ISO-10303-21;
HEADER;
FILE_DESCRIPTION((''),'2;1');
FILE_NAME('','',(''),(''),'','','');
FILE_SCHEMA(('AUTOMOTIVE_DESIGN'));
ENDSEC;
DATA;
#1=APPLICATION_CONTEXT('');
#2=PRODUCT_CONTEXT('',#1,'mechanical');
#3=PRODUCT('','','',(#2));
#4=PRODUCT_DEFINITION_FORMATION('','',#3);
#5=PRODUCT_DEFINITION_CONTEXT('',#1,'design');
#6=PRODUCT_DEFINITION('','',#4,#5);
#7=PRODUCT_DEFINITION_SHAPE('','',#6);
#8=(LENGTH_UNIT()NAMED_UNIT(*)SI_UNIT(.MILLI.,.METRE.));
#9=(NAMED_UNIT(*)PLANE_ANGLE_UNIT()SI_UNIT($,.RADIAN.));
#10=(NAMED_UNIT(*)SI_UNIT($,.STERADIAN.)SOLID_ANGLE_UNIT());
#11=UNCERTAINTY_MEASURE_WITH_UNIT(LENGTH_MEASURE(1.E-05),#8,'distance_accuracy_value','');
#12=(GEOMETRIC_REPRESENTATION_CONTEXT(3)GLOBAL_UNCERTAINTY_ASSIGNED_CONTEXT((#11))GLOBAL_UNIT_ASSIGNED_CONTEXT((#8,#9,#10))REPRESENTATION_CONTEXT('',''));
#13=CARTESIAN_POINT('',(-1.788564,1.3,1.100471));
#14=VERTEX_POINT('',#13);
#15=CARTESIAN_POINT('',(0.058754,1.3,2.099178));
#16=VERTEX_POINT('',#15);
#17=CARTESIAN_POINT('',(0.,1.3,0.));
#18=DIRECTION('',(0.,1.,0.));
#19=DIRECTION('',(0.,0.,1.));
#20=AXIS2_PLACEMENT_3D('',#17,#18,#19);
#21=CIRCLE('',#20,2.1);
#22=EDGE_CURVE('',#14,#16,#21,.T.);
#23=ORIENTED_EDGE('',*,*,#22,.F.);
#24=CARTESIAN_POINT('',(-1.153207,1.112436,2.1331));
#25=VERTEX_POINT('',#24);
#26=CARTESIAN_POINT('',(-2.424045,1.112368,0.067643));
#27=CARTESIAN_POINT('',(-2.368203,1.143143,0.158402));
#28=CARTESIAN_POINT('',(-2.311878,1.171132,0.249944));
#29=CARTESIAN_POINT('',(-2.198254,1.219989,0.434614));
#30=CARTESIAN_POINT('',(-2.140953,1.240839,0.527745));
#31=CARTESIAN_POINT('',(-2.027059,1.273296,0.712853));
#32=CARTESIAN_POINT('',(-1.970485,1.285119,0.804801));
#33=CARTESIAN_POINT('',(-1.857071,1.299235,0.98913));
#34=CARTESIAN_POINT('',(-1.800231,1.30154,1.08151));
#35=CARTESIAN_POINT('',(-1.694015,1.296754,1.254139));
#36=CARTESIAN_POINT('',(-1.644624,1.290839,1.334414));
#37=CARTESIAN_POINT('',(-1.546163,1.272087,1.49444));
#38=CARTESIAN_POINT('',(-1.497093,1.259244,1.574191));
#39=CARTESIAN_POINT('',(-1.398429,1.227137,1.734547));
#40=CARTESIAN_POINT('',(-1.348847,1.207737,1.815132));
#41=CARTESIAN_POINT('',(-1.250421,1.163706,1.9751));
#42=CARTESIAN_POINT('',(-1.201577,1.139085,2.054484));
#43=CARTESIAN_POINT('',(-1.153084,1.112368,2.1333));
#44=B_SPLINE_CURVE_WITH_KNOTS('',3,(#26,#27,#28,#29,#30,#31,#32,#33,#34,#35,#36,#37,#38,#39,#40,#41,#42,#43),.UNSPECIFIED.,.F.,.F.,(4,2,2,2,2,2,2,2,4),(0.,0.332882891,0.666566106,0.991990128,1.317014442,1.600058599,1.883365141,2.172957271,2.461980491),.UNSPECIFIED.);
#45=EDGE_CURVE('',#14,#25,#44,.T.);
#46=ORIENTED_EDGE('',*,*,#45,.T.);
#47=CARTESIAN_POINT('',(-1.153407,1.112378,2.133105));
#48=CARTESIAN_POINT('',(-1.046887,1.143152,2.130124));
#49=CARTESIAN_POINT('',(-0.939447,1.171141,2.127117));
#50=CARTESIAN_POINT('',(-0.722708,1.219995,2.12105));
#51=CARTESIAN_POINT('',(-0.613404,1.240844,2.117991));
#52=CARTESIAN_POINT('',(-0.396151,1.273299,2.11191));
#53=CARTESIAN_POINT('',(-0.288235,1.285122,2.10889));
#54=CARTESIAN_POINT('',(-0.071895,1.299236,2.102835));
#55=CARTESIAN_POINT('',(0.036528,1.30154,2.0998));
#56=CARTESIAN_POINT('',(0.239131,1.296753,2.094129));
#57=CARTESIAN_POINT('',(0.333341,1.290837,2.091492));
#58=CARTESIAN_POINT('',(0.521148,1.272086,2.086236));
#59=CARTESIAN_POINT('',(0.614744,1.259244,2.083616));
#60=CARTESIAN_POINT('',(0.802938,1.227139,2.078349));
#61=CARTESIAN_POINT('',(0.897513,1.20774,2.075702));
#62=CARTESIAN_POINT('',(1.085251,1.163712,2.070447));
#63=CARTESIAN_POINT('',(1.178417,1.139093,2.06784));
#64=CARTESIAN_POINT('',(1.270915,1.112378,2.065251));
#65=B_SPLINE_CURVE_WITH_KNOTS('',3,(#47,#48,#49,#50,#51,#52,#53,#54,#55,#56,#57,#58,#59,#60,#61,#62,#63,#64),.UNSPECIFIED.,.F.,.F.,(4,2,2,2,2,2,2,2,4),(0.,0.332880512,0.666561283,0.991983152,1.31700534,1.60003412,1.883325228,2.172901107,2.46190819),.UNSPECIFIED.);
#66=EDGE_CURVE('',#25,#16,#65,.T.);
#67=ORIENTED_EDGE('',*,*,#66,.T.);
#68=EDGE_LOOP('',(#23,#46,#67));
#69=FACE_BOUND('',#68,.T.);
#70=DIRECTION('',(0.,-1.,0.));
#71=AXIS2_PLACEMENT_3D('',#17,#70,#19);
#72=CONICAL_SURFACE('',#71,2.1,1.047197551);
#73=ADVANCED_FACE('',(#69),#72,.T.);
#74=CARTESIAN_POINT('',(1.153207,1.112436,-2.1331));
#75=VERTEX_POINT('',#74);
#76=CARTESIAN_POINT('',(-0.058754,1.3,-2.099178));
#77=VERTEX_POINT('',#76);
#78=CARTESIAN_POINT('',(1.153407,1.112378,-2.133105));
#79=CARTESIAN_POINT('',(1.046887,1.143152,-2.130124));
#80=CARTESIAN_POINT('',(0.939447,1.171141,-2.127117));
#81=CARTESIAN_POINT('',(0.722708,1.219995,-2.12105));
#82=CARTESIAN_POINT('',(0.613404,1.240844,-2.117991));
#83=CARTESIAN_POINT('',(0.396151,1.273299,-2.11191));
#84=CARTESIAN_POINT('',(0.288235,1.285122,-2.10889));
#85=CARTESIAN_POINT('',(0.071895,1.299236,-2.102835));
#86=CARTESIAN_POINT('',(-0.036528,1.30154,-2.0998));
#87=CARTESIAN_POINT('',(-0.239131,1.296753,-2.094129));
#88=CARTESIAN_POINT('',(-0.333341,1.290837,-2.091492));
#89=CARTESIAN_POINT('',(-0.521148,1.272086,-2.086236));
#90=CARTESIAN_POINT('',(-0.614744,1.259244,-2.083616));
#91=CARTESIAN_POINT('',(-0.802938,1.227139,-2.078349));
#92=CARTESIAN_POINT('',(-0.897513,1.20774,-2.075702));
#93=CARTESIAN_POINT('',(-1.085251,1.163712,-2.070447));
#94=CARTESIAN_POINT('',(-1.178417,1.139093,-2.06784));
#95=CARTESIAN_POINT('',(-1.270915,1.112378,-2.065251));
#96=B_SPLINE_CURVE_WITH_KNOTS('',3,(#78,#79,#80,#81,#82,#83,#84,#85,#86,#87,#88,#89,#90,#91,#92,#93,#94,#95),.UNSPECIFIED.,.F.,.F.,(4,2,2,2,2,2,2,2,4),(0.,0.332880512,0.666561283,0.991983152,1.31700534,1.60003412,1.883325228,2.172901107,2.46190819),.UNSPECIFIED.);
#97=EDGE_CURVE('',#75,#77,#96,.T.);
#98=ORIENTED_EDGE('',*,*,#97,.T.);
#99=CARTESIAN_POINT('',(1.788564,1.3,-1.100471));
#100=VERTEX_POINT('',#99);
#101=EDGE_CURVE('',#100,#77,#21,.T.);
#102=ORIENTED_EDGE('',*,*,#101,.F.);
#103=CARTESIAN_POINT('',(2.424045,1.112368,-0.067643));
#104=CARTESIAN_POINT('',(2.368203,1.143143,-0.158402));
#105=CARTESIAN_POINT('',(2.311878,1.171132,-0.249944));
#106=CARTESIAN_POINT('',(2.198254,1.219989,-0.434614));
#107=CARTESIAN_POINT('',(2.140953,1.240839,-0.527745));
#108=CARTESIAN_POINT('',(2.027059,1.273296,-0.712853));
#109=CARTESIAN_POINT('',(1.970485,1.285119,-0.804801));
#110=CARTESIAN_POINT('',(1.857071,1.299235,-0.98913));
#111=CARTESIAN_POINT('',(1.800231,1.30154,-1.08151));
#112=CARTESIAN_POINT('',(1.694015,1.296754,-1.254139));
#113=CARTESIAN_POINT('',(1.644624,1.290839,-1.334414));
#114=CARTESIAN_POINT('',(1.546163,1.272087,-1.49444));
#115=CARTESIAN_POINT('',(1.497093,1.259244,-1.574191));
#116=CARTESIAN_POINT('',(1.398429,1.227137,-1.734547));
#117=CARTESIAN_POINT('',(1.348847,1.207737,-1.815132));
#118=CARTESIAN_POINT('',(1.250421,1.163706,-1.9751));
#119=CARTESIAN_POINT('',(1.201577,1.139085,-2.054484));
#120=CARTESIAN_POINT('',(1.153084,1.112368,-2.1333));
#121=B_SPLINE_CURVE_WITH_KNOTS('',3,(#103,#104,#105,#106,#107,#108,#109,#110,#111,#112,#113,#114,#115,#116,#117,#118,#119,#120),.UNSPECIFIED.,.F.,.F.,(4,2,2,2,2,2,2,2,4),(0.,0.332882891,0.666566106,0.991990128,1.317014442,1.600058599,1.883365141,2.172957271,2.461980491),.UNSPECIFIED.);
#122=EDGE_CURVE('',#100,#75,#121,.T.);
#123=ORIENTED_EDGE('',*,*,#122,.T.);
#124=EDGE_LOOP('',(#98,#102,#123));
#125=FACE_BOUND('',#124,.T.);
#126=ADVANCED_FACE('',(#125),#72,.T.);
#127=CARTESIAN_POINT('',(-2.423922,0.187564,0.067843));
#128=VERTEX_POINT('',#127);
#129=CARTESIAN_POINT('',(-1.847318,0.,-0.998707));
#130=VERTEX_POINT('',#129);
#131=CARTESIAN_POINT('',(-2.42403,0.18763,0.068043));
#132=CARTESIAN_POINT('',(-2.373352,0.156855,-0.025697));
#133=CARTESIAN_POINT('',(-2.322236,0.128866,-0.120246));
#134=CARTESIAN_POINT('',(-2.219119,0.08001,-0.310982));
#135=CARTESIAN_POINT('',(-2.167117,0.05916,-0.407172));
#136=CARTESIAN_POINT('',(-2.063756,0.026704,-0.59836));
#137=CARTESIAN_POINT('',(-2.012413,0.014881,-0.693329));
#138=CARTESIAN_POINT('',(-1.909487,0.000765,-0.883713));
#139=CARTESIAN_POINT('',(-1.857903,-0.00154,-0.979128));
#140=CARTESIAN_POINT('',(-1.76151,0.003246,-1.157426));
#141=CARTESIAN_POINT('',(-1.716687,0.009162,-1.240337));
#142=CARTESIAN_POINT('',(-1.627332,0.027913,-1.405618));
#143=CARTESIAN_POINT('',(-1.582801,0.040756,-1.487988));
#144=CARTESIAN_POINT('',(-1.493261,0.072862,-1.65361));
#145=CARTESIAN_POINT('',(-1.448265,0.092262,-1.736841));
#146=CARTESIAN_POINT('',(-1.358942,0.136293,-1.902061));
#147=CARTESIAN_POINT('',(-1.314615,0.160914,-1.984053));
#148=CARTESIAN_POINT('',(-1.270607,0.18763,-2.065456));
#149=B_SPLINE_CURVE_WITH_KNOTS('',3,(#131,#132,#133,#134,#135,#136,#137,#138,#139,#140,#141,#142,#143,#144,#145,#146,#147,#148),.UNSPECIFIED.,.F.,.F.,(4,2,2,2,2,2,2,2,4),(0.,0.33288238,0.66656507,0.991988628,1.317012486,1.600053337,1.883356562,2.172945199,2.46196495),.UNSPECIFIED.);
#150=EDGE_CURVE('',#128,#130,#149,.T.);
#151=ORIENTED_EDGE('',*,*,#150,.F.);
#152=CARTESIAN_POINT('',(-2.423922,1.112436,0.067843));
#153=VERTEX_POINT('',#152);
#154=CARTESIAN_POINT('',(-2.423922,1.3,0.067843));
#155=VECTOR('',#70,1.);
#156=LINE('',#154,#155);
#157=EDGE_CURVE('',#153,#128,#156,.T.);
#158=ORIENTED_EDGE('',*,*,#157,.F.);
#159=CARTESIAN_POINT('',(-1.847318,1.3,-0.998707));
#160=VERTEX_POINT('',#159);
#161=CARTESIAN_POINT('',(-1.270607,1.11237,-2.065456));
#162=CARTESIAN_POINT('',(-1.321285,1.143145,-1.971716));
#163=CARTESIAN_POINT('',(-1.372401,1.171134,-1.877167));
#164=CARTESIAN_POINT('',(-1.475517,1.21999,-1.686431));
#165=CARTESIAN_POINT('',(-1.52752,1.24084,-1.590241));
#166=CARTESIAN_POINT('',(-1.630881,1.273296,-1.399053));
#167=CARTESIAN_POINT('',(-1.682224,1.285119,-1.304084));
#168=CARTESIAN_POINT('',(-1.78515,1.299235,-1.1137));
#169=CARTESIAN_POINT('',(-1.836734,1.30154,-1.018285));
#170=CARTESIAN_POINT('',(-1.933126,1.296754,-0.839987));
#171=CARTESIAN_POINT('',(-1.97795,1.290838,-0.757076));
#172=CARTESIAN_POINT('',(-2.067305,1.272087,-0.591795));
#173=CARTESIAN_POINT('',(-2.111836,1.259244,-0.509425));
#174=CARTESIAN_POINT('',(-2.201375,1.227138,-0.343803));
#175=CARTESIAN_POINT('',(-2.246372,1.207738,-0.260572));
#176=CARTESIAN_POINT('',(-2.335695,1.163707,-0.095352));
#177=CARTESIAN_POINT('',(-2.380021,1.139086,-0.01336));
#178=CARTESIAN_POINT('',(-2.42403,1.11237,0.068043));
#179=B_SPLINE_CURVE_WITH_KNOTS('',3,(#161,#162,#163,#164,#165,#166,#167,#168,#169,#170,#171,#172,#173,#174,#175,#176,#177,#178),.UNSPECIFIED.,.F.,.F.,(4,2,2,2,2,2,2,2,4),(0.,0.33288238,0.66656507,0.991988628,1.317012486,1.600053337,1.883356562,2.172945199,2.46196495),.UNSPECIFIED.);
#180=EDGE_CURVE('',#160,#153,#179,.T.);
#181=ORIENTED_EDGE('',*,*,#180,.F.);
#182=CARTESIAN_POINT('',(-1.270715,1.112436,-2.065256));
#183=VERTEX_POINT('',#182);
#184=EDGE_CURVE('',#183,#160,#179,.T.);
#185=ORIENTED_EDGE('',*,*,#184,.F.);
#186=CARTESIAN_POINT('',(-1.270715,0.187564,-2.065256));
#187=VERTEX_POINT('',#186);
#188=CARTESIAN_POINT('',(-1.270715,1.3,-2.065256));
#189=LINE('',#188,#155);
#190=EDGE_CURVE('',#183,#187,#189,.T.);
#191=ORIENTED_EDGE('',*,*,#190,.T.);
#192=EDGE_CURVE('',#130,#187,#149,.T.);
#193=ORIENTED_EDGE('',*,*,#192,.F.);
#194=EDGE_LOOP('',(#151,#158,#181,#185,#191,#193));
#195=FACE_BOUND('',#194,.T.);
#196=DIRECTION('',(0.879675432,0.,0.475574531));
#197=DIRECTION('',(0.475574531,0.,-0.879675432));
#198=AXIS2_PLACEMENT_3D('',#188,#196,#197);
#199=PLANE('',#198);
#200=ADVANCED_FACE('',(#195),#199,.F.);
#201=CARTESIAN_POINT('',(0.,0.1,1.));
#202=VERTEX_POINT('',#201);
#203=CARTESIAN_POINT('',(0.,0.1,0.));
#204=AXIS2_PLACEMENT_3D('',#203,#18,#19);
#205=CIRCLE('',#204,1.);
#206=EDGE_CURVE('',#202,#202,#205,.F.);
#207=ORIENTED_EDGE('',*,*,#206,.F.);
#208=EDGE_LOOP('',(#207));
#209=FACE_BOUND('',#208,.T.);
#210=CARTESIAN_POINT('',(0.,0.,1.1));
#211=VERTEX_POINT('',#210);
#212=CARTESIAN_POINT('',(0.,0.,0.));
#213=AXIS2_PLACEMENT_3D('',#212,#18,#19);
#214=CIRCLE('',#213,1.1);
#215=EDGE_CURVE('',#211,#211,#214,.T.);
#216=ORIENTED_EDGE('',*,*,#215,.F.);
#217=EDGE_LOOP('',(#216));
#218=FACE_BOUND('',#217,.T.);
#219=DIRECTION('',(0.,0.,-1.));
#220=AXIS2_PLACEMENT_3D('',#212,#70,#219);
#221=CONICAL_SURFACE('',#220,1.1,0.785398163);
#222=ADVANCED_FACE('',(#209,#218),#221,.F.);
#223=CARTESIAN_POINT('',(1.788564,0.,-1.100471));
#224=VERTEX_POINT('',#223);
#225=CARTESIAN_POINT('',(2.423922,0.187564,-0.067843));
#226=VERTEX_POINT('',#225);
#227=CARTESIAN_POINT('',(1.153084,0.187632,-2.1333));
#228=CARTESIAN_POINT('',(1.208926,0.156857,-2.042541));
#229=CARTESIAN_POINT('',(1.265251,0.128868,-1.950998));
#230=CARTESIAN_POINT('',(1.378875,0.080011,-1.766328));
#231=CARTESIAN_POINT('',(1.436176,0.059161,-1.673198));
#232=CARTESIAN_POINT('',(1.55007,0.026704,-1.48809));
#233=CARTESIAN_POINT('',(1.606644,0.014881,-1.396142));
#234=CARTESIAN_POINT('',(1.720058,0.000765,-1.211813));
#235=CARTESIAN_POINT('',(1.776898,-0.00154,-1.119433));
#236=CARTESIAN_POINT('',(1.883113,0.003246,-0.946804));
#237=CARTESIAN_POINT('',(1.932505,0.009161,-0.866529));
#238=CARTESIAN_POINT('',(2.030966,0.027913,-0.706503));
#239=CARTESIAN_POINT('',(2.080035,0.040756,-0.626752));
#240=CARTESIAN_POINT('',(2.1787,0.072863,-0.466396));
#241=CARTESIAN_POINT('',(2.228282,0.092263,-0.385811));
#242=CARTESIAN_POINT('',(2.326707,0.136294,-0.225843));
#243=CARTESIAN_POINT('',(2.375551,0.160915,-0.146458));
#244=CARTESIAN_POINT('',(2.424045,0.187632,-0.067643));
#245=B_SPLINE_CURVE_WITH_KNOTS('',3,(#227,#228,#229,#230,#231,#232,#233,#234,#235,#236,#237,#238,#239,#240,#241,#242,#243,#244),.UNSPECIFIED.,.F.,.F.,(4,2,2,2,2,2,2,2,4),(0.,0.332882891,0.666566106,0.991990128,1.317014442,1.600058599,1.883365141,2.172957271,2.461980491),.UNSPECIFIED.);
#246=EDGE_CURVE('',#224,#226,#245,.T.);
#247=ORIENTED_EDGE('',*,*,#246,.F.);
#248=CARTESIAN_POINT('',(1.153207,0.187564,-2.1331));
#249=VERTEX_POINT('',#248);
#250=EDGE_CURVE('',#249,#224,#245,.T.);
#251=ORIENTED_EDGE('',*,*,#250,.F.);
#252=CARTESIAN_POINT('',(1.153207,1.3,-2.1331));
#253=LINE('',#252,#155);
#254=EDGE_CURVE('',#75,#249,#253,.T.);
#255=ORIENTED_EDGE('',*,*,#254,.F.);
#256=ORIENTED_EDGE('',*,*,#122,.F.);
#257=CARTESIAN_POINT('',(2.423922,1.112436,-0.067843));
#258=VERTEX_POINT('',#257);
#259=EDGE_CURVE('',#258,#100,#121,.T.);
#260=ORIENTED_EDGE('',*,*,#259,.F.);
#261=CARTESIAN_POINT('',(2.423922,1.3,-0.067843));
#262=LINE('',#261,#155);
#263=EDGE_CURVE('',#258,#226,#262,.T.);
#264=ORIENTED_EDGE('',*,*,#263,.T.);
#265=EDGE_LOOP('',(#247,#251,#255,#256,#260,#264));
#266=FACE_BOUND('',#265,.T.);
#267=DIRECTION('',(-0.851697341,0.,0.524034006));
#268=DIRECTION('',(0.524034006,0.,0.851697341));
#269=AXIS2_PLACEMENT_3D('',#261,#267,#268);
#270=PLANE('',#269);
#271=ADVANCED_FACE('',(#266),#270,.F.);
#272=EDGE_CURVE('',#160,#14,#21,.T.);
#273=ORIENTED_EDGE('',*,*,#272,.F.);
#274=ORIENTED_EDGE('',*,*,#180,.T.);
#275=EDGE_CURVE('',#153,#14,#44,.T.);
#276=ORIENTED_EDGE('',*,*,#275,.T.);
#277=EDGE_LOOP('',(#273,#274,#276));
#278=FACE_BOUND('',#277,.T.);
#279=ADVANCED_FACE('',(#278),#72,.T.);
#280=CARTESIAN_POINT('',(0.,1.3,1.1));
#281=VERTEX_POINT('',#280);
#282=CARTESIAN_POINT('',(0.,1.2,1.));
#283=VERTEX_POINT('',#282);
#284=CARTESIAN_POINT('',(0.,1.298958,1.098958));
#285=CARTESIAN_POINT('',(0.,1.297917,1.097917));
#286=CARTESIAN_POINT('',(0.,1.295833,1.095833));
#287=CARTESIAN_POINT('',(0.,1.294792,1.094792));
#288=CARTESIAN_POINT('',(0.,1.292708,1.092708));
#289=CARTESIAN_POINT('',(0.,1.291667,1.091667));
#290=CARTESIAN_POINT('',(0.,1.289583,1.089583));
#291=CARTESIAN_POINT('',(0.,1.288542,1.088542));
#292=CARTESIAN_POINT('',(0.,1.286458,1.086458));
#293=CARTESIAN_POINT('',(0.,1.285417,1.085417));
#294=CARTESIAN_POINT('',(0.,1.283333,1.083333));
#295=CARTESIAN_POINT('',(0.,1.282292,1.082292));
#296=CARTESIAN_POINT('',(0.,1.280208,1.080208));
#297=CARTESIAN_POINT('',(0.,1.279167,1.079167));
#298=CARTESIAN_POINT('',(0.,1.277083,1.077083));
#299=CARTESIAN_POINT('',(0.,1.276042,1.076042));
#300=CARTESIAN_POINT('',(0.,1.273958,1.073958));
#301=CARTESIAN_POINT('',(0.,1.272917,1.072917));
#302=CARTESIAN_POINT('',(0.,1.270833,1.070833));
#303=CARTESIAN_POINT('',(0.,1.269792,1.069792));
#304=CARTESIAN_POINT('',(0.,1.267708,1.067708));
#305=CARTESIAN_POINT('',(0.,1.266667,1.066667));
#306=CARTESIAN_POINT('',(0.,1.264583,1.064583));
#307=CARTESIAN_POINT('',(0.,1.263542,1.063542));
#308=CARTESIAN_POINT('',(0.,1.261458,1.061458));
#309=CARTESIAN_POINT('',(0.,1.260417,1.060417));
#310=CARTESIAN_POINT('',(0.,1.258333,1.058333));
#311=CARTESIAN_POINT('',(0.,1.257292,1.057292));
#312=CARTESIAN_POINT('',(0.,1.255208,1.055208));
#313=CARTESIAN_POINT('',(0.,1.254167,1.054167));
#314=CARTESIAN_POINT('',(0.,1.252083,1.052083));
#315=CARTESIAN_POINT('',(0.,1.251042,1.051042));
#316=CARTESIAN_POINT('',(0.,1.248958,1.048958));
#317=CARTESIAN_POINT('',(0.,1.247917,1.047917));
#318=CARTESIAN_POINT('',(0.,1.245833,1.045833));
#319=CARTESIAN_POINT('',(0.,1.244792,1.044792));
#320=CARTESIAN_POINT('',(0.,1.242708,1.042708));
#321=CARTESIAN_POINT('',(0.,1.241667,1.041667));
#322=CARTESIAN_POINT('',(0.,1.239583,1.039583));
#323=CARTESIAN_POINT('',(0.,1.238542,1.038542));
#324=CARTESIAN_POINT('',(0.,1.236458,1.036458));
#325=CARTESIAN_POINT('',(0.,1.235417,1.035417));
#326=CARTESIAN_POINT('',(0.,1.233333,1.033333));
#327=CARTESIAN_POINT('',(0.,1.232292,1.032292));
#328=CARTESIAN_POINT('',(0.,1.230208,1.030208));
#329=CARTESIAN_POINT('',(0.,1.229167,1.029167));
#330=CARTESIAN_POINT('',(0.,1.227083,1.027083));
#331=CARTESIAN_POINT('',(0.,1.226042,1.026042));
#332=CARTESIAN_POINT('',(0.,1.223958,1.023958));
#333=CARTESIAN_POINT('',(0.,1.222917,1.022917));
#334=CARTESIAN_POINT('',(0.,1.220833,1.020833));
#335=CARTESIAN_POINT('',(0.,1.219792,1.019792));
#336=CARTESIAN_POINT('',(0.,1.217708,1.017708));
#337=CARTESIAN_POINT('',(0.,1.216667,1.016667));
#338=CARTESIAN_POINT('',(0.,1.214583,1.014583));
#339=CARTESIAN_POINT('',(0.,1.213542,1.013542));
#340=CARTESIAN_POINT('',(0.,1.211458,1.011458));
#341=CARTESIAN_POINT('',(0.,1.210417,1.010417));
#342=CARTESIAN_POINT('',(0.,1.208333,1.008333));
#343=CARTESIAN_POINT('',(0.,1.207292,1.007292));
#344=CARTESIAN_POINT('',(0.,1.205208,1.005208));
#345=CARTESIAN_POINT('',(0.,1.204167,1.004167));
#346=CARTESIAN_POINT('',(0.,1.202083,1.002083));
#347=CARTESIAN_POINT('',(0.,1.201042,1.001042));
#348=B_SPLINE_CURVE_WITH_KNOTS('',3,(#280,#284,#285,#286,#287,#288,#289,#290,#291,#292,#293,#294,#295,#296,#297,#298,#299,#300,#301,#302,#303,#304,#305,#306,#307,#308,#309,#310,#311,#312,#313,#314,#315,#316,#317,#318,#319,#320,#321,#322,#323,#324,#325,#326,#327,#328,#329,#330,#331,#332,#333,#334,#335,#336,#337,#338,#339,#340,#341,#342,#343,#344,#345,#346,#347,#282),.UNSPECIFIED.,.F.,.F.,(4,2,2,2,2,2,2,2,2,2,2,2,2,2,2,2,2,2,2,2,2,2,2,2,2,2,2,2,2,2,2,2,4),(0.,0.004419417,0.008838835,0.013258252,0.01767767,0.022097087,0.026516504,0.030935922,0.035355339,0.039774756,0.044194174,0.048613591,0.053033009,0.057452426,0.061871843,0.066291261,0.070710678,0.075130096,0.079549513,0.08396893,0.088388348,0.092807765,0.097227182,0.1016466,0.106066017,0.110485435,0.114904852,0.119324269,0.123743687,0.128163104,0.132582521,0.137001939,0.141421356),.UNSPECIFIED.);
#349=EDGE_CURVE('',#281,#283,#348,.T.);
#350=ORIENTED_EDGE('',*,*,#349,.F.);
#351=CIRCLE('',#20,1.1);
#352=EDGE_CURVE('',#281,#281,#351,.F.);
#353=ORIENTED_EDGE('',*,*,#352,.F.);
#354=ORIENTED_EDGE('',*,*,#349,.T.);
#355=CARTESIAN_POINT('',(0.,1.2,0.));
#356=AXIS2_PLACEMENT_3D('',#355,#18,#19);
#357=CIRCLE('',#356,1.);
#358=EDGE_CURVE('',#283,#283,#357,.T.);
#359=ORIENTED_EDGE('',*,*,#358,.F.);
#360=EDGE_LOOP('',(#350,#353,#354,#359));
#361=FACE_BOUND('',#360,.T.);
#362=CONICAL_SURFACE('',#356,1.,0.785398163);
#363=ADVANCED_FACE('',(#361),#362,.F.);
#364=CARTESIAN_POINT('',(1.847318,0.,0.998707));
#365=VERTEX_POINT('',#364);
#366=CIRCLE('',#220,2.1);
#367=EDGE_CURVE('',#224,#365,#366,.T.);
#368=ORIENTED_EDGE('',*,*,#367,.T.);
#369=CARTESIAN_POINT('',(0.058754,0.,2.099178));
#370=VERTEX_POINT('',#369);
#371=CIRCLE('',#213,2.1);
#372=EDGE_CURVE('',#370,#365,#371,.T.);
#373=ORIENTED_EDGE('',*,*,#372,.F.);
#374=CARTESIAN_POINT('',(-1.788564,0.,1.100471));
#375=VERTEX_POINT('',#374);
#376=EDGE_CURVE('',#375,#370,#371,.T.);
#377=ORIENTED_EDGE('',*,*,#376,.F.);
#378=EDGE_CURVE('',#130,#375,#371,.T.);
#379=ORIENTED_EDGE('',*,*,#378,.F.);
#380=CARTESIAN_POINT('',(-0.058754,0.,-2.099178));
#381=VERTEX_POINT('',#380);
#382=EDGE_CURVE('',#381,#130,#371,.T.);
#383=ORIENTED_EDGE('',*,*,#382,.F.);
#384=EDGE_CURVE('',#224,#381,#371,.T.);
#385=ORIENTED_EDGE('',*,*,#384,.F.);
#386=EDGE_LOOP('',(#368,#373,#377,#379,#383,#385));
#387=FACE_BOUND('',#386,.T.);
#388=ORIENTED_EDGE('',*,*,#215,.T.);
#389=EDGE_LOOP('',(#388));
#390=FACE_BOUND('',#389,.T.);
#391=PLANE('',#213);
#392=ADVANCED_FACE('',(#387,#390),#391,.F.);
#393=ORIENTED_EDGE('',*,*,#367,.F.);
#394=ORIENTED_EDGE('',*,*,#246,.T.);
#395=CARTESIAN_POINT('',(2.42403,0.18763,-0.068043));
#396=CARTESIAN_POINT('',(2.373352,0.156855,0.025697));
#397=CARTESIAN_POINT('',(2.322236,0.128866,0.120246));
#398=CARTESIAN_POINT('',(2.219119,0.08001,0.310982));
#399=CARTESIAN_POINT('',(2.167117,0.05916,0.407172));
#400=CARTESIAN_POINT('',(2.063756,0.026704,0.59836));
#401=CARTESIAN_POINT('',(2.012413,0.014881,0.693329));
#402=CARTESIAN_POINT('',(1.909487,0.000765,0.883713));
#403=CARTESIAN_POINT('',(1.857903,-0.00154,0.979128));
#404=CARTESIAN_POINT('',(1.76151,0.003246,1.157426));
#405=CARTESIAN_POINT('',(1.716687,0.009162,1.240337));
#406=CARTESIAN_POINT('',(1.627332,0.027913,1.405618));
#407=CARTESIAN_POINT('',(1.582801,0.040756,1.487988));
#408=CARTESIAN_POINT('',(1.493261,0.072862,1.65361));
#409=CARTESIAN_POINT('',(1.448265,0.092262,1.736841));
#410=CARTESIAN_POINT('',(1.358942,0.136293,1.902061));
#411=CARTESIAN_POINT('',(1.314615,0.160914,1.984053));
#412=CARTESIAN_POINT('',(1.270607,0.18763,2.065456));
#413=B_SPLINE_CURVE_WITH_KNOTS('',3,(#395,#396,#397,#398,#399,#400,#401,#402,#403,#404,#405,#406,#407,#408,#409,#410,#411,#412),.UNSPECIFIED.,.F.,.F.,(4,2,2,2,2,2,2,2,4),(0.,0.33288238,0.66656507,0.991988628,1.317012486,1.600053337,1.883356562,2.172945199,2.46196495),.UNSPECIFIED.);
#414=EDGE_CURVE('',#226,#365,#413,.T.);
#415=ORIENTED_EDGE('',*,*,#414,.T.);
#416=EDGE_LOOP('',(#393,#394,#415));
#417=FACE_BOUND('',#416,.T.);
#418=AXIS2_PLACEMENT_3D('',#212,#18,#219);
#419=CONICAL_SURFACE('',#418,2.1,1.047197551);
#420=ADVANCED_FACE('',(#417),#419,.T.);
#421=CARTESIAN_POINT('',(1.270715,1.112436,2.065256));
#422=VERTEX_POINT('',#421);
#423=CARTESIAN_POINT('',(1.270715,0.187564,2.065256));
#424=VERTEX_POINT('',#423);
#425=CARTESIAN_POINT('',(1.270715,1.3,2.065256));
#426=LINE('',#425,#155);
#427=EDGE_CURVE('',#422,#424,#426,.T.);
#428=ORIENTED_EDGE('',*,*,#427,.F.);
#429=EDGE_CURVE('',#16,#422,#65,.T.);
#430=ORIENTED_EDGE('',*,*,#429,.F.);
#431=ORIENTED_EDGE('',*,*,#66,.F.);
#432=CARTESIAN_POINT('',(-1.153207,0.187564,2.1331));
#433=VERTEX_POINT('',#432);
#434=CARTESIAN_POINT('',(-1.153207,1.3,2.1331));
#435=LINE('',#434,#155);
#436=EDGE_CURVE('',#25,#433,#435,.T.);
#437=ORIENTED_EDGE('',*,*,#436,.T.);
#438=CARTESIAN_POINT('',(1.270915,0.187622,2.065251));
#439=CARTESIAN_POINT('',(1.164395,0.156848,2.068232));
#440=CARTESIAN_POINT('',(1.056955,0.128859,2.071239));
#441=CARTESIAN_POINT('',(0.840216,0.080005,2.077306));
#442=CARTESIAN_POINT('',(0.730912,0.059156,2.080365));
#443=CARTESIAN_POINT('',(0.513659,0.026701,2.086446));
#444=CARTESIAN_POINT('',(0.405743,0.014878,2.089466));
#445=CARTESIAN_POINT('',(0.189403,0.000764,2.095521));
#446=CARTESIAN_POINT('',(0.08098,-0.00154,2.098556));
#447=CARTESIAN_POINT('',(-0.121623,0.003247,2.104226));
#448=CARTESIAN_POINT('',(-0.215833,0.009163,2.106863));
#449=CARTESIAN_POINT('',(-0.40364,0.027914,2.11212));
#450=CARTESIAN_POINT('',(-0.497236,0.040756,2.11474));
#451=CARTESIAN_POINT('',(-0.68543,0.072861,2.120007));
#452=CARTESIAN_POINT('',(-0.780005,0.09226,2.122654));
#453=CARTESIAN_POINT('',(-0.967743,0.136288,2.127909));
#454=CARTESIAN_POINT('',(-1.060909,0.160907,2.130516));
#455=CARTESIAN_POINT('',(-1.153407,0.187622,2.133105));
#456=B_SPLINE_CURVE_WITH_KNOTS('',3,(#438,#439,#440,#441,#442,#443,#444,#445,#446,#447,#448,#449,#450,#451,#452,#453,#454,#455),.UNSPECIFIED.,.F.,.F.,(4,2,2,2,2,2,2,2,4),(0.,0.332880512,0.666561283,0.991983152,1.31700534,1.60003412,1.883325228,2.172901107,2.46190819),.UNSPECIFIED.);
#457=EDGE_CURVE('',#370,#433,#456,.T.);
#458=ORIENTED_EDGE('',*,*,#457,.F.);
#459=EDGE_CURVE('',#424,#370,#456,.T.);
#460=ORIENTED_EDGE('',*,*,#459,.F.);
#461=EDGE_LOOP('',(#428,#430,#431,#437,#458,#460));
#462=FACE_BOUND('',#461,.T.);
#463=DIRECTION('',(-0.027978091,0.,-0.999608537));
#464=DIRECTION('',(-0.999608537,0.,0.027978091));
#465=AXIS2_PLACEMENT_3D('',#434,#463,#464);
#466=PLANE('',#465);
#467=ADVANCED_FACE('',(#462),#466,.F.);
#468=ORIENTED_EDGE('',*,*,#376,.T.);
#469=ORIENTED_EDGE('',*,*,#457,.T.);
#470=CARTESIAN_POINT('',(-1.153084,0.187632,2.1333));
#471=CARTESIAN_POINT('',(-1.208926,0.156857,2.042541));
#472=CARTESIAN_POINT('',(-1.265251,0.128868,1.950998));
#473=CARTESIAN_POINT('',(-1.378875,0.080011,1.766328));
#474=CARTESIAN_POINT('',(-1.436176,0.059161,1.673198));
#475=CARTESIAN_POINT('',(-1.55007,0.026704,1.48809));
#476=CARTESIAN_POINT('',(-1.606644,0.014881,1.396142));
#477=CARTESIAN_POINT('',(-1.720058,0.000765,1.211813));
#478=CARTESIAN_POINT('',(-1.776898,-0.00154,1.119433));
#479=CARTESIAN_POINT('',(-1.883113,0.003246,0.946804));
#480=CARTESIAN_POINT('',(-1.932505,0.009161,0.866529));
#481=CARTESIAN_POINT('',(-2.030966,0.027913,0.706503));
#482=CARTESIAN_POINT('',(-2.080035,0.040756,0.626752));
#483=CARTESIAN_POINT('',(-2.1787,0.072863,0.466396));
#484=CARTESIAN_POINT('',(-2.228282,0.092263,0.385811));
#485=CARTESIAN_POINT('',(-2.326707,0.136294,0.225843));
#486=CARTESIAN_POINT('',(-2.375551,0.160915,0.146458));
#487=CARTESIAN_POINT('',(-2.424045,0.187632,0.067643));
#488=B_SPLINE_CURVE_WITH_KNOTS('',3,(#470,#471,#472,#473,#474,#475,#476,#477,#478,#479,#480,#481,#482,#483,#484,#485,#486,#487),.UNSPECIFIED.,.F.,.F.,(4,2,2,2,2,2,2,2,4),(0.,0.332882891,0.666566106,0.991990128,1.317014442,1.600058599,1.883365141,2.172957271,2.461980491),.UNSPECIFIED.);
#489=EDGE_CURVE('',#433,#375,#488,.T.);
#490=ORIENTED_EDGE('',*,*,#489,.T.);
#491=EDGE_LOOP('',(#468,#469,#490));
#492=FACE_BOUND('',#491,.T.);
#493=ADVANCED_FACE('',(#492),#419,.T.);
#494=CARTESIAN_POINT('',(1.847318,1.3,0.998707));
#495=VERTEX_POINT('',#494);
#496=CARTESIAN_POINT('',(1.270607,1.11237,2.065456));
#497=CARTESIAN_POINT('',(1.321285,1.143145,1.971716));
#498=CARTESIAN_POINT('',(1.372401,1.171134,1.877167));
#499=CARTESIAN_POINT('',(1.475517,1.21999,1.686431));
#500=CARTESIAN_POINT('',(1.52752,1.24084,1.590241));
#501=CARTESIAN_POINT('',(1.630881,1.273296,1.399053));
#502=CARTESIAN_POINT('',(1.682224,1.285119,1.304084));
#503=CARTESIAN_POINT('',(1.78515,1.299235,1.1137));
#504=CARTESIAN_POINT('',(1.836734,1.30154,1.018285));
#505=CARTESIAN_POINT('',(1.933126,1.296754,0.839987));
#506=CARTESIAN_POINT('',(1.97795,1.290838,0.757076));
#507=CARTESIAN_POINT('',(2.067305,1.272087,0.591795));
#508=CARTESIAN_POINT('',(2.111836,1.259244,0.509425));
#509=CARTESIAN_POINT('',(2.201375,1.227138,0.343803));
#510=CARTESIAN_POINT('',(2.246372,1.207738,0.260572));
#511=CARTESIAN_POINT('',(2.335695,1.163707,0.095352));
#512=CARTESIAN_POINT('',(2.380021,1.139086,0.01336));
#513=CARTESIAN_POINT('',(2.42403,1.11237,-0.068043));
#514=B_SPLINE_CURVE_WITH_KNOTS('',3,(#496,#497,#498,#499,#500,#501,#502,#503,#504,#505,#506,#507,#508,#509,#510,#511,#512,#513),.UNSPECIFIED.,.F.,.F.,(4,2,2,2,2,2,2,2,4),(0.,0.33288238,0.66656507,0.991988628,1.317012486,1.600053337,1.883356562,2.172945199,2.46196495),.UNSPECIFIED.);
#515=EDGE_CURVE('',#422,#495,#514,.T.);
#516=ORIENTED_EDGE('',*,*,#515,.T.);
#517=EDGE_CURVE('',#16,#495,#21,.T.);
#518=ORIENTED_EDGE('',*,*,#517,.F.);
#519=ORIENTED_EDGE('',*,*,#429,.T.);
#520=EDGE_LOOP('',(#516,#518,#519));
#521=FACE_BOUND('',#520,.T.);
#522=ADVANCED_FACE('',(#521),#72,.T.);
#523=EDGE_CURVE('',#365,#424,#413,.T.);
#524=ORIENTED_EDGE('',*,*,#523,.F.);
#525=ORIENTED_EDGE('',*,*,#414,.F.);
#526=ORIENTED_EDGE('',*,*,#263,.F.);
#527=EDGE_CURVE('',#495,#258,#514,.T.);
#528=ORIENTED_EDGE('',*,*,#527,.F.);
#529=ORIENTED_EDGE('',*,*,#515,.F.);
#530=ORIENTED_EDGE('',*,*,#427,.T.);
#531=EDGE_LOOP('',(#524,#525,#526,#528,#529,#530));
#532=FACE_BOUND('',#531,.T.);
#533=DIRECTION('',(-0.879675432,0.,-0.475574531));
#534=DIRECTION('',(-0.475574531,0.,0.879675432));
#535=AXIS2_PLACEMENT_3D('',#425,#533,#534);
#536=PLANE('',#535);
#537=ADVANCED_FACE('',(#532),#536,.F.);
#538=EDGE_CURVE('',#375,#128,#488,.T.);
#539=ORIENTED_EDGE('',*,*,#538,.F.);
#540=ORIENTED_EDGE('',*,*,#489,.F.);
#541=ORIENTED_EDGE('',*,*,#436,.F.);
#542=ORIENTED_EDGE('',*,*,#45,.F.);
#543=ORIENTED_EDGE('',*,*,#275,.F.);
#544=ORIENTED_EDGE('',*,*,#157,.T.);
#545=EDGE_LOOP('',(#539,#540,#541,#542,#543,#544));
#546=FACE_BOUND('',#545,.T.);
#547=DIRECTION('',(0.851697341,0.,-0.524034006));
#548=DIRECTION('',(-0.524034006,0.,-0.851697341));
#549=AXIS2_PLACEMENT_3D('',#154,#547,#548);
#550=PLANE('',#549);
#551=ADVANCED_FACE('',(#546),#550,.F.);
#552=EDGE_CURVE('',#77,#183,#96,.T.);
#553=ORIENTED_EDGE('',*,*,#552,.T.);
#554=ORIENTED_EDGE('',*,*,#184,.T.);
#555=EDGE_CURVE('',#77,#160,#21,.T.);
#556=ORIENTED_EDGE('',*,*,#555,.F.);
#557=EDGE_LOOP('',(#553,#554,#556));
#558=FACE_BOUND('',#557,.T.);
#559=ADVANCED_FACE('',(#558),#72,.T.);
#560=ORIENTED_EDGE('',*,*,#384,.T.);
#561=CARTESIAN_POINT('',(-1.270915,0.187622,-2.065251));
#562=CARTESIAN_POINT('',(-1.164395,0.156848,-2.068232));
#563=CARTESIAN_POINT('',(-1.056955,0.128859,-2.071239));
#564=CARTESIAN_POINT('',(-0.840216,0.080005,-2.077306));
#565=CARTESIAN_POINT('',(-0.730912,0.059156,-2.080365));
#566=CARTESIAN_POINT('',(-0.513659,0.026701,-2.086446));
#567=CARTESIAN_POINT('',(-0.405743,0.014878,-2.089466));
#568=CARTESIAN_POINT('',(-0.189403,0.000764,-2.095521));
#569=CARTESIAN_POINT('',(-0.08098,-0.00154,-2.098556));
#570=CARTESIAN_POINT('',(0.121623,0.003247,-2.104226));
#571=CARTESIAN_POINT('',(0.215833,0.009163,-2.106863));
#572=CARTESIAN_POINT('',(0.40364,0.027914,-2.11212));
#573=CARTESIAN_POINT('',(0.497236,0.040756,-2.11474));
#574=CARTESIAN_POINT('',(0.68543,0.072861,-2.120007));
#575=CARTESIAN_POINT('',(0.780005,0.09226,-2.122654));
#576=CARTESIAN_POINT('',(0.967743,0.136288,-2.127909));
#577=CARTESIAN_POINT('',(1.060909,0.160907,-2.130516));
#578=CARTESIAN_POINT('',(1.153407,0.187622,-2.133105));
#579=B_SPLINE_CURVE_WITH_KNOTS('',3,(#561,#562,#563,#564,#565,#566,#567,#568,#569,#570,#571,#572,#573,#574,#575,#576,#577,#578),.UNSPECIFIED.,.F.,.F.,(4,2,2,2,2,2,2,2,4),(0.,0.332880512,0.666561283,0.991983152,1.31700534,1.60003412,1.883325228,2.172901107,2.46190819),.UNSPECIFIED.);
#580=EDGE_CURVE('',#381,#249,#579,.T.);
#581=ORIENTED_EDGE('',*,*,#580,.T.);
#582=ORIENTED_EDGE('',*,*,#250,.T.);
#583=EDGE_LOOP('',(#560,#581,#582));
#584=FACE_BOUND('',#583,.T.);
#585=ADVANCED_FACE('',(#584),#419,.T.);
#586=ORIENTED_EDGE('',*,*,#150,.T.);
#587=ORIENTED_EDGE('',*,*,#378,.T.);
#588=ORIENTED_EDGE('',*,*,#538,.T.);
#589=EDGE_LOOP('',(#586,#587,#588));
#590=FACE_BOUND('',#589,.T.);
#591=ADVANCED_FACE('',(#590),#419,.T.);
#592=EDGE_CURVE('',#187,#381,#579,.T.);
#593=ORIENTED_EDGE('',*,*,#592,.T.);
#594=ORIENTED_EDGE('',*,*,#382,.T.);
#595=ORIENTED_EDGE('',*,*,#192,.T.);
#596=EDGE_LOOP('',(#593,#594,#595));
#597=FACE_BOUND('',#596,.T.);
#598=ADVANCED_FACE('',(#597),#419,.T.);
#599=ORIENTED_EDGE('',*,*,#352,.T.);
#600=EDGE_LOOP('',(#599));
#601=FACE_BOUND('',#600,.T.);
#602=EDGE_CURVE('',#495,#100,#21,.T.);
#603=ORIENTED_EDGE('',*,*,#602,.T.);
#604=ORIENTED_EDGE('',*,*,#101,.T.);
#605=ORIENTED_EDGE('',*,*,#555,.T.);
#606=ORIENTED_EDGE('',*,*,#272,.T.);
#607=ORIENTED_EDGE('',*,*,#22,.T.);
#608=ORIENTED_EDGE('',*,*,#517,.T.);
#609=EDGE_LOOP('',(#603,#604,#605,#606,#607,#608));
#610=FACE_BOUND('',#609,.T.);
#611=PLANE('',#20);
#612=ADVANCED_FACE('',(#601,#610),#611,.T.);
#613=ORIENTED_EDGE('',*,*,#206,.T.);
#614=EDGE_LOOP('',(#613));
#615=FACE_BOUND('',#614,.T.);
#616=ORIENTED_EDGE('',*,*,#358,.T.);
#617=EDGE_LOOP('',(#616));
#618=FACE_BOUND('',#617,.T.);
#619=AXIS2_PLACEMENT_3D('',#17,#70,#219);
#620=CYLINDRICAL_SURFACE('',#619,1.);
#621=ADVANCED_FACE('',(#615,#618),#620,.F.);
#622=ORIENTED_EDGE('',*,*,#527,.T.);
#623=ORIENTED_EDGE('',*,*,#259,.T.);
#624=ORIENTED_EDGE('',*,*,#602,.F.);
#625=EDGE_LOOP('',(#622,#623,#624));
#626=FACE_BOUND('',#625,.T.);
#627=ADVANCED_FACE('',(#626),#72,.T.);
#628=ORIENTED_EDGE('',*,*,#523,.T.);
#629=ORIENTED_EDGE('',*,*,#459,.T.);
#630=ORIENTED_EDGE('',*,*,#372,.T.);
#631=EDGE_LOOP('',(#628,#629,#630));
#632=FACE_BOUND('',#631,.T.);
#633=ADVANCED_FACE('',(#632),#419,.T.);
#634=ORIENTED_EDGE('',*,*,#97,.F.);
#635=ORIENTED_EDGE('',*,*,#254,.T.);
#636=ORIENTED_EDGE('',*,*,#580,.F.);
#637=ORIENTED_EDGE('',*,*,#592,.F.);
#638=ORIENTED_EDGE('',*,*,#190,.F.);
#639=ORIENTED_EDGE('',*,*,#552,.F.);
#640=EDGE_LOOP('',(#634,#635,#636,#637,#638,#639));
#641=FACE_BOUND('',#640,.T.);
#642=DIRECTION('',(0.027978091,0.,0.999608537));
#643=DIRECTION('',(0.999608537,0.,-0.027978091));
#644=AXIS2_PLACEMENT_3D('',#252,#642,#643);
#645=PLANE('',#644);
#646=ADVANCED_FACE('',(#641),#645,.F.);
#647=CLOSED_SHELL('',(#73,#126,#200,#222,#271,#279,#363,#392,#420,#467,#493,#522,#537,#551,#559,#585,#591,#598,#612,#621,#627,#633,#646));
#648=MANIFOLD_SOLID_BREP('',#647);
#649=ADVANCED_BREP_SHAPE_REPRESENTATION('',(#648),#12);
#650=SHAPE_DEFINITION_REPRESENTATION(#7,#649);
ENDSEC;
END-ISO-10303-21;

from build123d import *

# Parameters (mm, degrees)
SKETCH1_R           = 1
BOSS_EXTRUDE1_DEPTH = 1.3
SKETCH2_OUTSIDE_W   = 624.082
SKETCH2_OUTSIDE_H   = 623.5
SKETCH2_OUTSIDE_R   = 2.1
CUT_EXTRUDE1_DEPTH  = 177.8
CUT_EXTRUDE1_DRAFT  = -60
SKETCH3_OUTSIDE_W   = 624.082
SKETCH3_OUTSIDE_H   = 623.5
SKETCH3_OUTSIDE_R   = 2.1
CUT_EXTRUDE2_DEPTH  = 177.8
CUT_EXTRUDE2_DRAFT  = -60
CHAMFER1_SIZE       = 0.1
CHAMFER2_SIZE       = 0.1


with BuildPart() as part:
    # Sketch1 → Boss-Extrude1 (new body)
    with BuildSketch(Plane(origin=(0, 0, 0), x_dir=(1, 0, 0), z_dir=(0, 1, 0))):
        Polygon((1.153206949, 2.13309956), (-1.270714933, 2.065256294), (-2.423921882, -0.067843266), (-1.153206949, -2.13309956), (1.270714933, -2.065256294), (2.423921882, 0.067843266), align=None)
        with Locations(Location((0, 0, 0), (0, 0, 270))):
            Circle(SKETCH1_R, mode=Mode.SUBTRACT)
    extrude(amount=BOSS_EXTRUDE1_DEPTH)


with BuildPart() as cut_extrude1_tool:
    # Sketch2 outside → Cut-Extrude1 (with draft: the straight prism first)
    with BuildSketch(Plane(origin=(0, 1.3, 0), x_dir=(1, 0, 0), z_dir=(0, 1, 0))):
        Rectangle(SKETCH2_OUTSIDE_W, SKETCH2_OUTSIDE_H)
        Circle(SKETCH2_OUTSIDE_R, mode=Mode.SUBTRACT)
    extrude(amount=-CUT_EXTRUDE1_DEPTH)
    # Cut-Extrude1: the draft: its side faces are tilted about the plane it starts from
    cut_extrude1_sides = [cut_extrude1_tool.faces().sort_by_distance(p)[0] for p in [
        (0, -87.6, 311.75),
        (312.041, -87.6, 0),
        (0, -87.6, -311.75),
        (-312.041, -87.6, 0),
        (-2.1, -87.6, 0),
    ]]
    draft(cut_extrude1_sides, Plane(origin=(0, 1.3, 0), x_dir=(1, 0, 0), z_dir=(0, 1, 0)), CUT_EXTRUDE1_DRAFT)


with BuildPart() as part_1:
    add(part.part)

    # Cut-Extrude1: cut by cut_extrude1_tool
    add(cut_extrude1_tool.part, mode=Mode.SUBTRACT)


with BuildPart() as cut_extrude2_tool:
    # Sketch3 outside → Cut-Extrude2 (with draft: the straight prism first)
    with BuildSketch(Plane.XZ):
        Rectangle(SKETCH3_OUTSIDE_W, SKETCH3_OUTSIDE_H)
        Circle(SKETCH3_OUTSIDE_R, mode=Mode.SUBTRACT)
    extrude(amount=-CUT_EXTRUDE2_DEPTH)
    # Cut-Extrude2: the draft: its side faces are tilted about the plane it starts from
    cut_extrude2_sides = [cut_extrude2_tool.faces().sort_by_distance(p)[0] for p in [
        (0, 88.9, -311.75),
        (312.041, 88.9, 0),
        (0, 88.9, 311.75),
        (-312.041, 88.9, 0),
        (-2.1, 88.9, 0),
    ]]
    draft(cut_extrude2_sides, Plane.XZ, CUT_EXTRUDE2_DRAFT)


with BuildPart() as part_2:
    add(part_1.part)

    # Cut-Extrude2: cut by cut_extrude2_tool
    add(cut_extrude2_tool.part, mode=Mode.SUBTRACT)

    # Chamfer1
    chamfer1_edges = [part_2.edges().sort_by_distance(p)[0] for p in [
        (0, 1.3, -1),
    ]]
    chamfer(chamfer1_edges, length=CHAMFER1_SIZE)

    # Chamfer2
    chamfer2_edges = [part_2.edges().sort_by_distance(p)[0] for p in [
        (0, 0, -1),
    ]]
    chamfer(chamfer2_edges, length=CHAMFER2_SIZE)


solid = part_2.part
